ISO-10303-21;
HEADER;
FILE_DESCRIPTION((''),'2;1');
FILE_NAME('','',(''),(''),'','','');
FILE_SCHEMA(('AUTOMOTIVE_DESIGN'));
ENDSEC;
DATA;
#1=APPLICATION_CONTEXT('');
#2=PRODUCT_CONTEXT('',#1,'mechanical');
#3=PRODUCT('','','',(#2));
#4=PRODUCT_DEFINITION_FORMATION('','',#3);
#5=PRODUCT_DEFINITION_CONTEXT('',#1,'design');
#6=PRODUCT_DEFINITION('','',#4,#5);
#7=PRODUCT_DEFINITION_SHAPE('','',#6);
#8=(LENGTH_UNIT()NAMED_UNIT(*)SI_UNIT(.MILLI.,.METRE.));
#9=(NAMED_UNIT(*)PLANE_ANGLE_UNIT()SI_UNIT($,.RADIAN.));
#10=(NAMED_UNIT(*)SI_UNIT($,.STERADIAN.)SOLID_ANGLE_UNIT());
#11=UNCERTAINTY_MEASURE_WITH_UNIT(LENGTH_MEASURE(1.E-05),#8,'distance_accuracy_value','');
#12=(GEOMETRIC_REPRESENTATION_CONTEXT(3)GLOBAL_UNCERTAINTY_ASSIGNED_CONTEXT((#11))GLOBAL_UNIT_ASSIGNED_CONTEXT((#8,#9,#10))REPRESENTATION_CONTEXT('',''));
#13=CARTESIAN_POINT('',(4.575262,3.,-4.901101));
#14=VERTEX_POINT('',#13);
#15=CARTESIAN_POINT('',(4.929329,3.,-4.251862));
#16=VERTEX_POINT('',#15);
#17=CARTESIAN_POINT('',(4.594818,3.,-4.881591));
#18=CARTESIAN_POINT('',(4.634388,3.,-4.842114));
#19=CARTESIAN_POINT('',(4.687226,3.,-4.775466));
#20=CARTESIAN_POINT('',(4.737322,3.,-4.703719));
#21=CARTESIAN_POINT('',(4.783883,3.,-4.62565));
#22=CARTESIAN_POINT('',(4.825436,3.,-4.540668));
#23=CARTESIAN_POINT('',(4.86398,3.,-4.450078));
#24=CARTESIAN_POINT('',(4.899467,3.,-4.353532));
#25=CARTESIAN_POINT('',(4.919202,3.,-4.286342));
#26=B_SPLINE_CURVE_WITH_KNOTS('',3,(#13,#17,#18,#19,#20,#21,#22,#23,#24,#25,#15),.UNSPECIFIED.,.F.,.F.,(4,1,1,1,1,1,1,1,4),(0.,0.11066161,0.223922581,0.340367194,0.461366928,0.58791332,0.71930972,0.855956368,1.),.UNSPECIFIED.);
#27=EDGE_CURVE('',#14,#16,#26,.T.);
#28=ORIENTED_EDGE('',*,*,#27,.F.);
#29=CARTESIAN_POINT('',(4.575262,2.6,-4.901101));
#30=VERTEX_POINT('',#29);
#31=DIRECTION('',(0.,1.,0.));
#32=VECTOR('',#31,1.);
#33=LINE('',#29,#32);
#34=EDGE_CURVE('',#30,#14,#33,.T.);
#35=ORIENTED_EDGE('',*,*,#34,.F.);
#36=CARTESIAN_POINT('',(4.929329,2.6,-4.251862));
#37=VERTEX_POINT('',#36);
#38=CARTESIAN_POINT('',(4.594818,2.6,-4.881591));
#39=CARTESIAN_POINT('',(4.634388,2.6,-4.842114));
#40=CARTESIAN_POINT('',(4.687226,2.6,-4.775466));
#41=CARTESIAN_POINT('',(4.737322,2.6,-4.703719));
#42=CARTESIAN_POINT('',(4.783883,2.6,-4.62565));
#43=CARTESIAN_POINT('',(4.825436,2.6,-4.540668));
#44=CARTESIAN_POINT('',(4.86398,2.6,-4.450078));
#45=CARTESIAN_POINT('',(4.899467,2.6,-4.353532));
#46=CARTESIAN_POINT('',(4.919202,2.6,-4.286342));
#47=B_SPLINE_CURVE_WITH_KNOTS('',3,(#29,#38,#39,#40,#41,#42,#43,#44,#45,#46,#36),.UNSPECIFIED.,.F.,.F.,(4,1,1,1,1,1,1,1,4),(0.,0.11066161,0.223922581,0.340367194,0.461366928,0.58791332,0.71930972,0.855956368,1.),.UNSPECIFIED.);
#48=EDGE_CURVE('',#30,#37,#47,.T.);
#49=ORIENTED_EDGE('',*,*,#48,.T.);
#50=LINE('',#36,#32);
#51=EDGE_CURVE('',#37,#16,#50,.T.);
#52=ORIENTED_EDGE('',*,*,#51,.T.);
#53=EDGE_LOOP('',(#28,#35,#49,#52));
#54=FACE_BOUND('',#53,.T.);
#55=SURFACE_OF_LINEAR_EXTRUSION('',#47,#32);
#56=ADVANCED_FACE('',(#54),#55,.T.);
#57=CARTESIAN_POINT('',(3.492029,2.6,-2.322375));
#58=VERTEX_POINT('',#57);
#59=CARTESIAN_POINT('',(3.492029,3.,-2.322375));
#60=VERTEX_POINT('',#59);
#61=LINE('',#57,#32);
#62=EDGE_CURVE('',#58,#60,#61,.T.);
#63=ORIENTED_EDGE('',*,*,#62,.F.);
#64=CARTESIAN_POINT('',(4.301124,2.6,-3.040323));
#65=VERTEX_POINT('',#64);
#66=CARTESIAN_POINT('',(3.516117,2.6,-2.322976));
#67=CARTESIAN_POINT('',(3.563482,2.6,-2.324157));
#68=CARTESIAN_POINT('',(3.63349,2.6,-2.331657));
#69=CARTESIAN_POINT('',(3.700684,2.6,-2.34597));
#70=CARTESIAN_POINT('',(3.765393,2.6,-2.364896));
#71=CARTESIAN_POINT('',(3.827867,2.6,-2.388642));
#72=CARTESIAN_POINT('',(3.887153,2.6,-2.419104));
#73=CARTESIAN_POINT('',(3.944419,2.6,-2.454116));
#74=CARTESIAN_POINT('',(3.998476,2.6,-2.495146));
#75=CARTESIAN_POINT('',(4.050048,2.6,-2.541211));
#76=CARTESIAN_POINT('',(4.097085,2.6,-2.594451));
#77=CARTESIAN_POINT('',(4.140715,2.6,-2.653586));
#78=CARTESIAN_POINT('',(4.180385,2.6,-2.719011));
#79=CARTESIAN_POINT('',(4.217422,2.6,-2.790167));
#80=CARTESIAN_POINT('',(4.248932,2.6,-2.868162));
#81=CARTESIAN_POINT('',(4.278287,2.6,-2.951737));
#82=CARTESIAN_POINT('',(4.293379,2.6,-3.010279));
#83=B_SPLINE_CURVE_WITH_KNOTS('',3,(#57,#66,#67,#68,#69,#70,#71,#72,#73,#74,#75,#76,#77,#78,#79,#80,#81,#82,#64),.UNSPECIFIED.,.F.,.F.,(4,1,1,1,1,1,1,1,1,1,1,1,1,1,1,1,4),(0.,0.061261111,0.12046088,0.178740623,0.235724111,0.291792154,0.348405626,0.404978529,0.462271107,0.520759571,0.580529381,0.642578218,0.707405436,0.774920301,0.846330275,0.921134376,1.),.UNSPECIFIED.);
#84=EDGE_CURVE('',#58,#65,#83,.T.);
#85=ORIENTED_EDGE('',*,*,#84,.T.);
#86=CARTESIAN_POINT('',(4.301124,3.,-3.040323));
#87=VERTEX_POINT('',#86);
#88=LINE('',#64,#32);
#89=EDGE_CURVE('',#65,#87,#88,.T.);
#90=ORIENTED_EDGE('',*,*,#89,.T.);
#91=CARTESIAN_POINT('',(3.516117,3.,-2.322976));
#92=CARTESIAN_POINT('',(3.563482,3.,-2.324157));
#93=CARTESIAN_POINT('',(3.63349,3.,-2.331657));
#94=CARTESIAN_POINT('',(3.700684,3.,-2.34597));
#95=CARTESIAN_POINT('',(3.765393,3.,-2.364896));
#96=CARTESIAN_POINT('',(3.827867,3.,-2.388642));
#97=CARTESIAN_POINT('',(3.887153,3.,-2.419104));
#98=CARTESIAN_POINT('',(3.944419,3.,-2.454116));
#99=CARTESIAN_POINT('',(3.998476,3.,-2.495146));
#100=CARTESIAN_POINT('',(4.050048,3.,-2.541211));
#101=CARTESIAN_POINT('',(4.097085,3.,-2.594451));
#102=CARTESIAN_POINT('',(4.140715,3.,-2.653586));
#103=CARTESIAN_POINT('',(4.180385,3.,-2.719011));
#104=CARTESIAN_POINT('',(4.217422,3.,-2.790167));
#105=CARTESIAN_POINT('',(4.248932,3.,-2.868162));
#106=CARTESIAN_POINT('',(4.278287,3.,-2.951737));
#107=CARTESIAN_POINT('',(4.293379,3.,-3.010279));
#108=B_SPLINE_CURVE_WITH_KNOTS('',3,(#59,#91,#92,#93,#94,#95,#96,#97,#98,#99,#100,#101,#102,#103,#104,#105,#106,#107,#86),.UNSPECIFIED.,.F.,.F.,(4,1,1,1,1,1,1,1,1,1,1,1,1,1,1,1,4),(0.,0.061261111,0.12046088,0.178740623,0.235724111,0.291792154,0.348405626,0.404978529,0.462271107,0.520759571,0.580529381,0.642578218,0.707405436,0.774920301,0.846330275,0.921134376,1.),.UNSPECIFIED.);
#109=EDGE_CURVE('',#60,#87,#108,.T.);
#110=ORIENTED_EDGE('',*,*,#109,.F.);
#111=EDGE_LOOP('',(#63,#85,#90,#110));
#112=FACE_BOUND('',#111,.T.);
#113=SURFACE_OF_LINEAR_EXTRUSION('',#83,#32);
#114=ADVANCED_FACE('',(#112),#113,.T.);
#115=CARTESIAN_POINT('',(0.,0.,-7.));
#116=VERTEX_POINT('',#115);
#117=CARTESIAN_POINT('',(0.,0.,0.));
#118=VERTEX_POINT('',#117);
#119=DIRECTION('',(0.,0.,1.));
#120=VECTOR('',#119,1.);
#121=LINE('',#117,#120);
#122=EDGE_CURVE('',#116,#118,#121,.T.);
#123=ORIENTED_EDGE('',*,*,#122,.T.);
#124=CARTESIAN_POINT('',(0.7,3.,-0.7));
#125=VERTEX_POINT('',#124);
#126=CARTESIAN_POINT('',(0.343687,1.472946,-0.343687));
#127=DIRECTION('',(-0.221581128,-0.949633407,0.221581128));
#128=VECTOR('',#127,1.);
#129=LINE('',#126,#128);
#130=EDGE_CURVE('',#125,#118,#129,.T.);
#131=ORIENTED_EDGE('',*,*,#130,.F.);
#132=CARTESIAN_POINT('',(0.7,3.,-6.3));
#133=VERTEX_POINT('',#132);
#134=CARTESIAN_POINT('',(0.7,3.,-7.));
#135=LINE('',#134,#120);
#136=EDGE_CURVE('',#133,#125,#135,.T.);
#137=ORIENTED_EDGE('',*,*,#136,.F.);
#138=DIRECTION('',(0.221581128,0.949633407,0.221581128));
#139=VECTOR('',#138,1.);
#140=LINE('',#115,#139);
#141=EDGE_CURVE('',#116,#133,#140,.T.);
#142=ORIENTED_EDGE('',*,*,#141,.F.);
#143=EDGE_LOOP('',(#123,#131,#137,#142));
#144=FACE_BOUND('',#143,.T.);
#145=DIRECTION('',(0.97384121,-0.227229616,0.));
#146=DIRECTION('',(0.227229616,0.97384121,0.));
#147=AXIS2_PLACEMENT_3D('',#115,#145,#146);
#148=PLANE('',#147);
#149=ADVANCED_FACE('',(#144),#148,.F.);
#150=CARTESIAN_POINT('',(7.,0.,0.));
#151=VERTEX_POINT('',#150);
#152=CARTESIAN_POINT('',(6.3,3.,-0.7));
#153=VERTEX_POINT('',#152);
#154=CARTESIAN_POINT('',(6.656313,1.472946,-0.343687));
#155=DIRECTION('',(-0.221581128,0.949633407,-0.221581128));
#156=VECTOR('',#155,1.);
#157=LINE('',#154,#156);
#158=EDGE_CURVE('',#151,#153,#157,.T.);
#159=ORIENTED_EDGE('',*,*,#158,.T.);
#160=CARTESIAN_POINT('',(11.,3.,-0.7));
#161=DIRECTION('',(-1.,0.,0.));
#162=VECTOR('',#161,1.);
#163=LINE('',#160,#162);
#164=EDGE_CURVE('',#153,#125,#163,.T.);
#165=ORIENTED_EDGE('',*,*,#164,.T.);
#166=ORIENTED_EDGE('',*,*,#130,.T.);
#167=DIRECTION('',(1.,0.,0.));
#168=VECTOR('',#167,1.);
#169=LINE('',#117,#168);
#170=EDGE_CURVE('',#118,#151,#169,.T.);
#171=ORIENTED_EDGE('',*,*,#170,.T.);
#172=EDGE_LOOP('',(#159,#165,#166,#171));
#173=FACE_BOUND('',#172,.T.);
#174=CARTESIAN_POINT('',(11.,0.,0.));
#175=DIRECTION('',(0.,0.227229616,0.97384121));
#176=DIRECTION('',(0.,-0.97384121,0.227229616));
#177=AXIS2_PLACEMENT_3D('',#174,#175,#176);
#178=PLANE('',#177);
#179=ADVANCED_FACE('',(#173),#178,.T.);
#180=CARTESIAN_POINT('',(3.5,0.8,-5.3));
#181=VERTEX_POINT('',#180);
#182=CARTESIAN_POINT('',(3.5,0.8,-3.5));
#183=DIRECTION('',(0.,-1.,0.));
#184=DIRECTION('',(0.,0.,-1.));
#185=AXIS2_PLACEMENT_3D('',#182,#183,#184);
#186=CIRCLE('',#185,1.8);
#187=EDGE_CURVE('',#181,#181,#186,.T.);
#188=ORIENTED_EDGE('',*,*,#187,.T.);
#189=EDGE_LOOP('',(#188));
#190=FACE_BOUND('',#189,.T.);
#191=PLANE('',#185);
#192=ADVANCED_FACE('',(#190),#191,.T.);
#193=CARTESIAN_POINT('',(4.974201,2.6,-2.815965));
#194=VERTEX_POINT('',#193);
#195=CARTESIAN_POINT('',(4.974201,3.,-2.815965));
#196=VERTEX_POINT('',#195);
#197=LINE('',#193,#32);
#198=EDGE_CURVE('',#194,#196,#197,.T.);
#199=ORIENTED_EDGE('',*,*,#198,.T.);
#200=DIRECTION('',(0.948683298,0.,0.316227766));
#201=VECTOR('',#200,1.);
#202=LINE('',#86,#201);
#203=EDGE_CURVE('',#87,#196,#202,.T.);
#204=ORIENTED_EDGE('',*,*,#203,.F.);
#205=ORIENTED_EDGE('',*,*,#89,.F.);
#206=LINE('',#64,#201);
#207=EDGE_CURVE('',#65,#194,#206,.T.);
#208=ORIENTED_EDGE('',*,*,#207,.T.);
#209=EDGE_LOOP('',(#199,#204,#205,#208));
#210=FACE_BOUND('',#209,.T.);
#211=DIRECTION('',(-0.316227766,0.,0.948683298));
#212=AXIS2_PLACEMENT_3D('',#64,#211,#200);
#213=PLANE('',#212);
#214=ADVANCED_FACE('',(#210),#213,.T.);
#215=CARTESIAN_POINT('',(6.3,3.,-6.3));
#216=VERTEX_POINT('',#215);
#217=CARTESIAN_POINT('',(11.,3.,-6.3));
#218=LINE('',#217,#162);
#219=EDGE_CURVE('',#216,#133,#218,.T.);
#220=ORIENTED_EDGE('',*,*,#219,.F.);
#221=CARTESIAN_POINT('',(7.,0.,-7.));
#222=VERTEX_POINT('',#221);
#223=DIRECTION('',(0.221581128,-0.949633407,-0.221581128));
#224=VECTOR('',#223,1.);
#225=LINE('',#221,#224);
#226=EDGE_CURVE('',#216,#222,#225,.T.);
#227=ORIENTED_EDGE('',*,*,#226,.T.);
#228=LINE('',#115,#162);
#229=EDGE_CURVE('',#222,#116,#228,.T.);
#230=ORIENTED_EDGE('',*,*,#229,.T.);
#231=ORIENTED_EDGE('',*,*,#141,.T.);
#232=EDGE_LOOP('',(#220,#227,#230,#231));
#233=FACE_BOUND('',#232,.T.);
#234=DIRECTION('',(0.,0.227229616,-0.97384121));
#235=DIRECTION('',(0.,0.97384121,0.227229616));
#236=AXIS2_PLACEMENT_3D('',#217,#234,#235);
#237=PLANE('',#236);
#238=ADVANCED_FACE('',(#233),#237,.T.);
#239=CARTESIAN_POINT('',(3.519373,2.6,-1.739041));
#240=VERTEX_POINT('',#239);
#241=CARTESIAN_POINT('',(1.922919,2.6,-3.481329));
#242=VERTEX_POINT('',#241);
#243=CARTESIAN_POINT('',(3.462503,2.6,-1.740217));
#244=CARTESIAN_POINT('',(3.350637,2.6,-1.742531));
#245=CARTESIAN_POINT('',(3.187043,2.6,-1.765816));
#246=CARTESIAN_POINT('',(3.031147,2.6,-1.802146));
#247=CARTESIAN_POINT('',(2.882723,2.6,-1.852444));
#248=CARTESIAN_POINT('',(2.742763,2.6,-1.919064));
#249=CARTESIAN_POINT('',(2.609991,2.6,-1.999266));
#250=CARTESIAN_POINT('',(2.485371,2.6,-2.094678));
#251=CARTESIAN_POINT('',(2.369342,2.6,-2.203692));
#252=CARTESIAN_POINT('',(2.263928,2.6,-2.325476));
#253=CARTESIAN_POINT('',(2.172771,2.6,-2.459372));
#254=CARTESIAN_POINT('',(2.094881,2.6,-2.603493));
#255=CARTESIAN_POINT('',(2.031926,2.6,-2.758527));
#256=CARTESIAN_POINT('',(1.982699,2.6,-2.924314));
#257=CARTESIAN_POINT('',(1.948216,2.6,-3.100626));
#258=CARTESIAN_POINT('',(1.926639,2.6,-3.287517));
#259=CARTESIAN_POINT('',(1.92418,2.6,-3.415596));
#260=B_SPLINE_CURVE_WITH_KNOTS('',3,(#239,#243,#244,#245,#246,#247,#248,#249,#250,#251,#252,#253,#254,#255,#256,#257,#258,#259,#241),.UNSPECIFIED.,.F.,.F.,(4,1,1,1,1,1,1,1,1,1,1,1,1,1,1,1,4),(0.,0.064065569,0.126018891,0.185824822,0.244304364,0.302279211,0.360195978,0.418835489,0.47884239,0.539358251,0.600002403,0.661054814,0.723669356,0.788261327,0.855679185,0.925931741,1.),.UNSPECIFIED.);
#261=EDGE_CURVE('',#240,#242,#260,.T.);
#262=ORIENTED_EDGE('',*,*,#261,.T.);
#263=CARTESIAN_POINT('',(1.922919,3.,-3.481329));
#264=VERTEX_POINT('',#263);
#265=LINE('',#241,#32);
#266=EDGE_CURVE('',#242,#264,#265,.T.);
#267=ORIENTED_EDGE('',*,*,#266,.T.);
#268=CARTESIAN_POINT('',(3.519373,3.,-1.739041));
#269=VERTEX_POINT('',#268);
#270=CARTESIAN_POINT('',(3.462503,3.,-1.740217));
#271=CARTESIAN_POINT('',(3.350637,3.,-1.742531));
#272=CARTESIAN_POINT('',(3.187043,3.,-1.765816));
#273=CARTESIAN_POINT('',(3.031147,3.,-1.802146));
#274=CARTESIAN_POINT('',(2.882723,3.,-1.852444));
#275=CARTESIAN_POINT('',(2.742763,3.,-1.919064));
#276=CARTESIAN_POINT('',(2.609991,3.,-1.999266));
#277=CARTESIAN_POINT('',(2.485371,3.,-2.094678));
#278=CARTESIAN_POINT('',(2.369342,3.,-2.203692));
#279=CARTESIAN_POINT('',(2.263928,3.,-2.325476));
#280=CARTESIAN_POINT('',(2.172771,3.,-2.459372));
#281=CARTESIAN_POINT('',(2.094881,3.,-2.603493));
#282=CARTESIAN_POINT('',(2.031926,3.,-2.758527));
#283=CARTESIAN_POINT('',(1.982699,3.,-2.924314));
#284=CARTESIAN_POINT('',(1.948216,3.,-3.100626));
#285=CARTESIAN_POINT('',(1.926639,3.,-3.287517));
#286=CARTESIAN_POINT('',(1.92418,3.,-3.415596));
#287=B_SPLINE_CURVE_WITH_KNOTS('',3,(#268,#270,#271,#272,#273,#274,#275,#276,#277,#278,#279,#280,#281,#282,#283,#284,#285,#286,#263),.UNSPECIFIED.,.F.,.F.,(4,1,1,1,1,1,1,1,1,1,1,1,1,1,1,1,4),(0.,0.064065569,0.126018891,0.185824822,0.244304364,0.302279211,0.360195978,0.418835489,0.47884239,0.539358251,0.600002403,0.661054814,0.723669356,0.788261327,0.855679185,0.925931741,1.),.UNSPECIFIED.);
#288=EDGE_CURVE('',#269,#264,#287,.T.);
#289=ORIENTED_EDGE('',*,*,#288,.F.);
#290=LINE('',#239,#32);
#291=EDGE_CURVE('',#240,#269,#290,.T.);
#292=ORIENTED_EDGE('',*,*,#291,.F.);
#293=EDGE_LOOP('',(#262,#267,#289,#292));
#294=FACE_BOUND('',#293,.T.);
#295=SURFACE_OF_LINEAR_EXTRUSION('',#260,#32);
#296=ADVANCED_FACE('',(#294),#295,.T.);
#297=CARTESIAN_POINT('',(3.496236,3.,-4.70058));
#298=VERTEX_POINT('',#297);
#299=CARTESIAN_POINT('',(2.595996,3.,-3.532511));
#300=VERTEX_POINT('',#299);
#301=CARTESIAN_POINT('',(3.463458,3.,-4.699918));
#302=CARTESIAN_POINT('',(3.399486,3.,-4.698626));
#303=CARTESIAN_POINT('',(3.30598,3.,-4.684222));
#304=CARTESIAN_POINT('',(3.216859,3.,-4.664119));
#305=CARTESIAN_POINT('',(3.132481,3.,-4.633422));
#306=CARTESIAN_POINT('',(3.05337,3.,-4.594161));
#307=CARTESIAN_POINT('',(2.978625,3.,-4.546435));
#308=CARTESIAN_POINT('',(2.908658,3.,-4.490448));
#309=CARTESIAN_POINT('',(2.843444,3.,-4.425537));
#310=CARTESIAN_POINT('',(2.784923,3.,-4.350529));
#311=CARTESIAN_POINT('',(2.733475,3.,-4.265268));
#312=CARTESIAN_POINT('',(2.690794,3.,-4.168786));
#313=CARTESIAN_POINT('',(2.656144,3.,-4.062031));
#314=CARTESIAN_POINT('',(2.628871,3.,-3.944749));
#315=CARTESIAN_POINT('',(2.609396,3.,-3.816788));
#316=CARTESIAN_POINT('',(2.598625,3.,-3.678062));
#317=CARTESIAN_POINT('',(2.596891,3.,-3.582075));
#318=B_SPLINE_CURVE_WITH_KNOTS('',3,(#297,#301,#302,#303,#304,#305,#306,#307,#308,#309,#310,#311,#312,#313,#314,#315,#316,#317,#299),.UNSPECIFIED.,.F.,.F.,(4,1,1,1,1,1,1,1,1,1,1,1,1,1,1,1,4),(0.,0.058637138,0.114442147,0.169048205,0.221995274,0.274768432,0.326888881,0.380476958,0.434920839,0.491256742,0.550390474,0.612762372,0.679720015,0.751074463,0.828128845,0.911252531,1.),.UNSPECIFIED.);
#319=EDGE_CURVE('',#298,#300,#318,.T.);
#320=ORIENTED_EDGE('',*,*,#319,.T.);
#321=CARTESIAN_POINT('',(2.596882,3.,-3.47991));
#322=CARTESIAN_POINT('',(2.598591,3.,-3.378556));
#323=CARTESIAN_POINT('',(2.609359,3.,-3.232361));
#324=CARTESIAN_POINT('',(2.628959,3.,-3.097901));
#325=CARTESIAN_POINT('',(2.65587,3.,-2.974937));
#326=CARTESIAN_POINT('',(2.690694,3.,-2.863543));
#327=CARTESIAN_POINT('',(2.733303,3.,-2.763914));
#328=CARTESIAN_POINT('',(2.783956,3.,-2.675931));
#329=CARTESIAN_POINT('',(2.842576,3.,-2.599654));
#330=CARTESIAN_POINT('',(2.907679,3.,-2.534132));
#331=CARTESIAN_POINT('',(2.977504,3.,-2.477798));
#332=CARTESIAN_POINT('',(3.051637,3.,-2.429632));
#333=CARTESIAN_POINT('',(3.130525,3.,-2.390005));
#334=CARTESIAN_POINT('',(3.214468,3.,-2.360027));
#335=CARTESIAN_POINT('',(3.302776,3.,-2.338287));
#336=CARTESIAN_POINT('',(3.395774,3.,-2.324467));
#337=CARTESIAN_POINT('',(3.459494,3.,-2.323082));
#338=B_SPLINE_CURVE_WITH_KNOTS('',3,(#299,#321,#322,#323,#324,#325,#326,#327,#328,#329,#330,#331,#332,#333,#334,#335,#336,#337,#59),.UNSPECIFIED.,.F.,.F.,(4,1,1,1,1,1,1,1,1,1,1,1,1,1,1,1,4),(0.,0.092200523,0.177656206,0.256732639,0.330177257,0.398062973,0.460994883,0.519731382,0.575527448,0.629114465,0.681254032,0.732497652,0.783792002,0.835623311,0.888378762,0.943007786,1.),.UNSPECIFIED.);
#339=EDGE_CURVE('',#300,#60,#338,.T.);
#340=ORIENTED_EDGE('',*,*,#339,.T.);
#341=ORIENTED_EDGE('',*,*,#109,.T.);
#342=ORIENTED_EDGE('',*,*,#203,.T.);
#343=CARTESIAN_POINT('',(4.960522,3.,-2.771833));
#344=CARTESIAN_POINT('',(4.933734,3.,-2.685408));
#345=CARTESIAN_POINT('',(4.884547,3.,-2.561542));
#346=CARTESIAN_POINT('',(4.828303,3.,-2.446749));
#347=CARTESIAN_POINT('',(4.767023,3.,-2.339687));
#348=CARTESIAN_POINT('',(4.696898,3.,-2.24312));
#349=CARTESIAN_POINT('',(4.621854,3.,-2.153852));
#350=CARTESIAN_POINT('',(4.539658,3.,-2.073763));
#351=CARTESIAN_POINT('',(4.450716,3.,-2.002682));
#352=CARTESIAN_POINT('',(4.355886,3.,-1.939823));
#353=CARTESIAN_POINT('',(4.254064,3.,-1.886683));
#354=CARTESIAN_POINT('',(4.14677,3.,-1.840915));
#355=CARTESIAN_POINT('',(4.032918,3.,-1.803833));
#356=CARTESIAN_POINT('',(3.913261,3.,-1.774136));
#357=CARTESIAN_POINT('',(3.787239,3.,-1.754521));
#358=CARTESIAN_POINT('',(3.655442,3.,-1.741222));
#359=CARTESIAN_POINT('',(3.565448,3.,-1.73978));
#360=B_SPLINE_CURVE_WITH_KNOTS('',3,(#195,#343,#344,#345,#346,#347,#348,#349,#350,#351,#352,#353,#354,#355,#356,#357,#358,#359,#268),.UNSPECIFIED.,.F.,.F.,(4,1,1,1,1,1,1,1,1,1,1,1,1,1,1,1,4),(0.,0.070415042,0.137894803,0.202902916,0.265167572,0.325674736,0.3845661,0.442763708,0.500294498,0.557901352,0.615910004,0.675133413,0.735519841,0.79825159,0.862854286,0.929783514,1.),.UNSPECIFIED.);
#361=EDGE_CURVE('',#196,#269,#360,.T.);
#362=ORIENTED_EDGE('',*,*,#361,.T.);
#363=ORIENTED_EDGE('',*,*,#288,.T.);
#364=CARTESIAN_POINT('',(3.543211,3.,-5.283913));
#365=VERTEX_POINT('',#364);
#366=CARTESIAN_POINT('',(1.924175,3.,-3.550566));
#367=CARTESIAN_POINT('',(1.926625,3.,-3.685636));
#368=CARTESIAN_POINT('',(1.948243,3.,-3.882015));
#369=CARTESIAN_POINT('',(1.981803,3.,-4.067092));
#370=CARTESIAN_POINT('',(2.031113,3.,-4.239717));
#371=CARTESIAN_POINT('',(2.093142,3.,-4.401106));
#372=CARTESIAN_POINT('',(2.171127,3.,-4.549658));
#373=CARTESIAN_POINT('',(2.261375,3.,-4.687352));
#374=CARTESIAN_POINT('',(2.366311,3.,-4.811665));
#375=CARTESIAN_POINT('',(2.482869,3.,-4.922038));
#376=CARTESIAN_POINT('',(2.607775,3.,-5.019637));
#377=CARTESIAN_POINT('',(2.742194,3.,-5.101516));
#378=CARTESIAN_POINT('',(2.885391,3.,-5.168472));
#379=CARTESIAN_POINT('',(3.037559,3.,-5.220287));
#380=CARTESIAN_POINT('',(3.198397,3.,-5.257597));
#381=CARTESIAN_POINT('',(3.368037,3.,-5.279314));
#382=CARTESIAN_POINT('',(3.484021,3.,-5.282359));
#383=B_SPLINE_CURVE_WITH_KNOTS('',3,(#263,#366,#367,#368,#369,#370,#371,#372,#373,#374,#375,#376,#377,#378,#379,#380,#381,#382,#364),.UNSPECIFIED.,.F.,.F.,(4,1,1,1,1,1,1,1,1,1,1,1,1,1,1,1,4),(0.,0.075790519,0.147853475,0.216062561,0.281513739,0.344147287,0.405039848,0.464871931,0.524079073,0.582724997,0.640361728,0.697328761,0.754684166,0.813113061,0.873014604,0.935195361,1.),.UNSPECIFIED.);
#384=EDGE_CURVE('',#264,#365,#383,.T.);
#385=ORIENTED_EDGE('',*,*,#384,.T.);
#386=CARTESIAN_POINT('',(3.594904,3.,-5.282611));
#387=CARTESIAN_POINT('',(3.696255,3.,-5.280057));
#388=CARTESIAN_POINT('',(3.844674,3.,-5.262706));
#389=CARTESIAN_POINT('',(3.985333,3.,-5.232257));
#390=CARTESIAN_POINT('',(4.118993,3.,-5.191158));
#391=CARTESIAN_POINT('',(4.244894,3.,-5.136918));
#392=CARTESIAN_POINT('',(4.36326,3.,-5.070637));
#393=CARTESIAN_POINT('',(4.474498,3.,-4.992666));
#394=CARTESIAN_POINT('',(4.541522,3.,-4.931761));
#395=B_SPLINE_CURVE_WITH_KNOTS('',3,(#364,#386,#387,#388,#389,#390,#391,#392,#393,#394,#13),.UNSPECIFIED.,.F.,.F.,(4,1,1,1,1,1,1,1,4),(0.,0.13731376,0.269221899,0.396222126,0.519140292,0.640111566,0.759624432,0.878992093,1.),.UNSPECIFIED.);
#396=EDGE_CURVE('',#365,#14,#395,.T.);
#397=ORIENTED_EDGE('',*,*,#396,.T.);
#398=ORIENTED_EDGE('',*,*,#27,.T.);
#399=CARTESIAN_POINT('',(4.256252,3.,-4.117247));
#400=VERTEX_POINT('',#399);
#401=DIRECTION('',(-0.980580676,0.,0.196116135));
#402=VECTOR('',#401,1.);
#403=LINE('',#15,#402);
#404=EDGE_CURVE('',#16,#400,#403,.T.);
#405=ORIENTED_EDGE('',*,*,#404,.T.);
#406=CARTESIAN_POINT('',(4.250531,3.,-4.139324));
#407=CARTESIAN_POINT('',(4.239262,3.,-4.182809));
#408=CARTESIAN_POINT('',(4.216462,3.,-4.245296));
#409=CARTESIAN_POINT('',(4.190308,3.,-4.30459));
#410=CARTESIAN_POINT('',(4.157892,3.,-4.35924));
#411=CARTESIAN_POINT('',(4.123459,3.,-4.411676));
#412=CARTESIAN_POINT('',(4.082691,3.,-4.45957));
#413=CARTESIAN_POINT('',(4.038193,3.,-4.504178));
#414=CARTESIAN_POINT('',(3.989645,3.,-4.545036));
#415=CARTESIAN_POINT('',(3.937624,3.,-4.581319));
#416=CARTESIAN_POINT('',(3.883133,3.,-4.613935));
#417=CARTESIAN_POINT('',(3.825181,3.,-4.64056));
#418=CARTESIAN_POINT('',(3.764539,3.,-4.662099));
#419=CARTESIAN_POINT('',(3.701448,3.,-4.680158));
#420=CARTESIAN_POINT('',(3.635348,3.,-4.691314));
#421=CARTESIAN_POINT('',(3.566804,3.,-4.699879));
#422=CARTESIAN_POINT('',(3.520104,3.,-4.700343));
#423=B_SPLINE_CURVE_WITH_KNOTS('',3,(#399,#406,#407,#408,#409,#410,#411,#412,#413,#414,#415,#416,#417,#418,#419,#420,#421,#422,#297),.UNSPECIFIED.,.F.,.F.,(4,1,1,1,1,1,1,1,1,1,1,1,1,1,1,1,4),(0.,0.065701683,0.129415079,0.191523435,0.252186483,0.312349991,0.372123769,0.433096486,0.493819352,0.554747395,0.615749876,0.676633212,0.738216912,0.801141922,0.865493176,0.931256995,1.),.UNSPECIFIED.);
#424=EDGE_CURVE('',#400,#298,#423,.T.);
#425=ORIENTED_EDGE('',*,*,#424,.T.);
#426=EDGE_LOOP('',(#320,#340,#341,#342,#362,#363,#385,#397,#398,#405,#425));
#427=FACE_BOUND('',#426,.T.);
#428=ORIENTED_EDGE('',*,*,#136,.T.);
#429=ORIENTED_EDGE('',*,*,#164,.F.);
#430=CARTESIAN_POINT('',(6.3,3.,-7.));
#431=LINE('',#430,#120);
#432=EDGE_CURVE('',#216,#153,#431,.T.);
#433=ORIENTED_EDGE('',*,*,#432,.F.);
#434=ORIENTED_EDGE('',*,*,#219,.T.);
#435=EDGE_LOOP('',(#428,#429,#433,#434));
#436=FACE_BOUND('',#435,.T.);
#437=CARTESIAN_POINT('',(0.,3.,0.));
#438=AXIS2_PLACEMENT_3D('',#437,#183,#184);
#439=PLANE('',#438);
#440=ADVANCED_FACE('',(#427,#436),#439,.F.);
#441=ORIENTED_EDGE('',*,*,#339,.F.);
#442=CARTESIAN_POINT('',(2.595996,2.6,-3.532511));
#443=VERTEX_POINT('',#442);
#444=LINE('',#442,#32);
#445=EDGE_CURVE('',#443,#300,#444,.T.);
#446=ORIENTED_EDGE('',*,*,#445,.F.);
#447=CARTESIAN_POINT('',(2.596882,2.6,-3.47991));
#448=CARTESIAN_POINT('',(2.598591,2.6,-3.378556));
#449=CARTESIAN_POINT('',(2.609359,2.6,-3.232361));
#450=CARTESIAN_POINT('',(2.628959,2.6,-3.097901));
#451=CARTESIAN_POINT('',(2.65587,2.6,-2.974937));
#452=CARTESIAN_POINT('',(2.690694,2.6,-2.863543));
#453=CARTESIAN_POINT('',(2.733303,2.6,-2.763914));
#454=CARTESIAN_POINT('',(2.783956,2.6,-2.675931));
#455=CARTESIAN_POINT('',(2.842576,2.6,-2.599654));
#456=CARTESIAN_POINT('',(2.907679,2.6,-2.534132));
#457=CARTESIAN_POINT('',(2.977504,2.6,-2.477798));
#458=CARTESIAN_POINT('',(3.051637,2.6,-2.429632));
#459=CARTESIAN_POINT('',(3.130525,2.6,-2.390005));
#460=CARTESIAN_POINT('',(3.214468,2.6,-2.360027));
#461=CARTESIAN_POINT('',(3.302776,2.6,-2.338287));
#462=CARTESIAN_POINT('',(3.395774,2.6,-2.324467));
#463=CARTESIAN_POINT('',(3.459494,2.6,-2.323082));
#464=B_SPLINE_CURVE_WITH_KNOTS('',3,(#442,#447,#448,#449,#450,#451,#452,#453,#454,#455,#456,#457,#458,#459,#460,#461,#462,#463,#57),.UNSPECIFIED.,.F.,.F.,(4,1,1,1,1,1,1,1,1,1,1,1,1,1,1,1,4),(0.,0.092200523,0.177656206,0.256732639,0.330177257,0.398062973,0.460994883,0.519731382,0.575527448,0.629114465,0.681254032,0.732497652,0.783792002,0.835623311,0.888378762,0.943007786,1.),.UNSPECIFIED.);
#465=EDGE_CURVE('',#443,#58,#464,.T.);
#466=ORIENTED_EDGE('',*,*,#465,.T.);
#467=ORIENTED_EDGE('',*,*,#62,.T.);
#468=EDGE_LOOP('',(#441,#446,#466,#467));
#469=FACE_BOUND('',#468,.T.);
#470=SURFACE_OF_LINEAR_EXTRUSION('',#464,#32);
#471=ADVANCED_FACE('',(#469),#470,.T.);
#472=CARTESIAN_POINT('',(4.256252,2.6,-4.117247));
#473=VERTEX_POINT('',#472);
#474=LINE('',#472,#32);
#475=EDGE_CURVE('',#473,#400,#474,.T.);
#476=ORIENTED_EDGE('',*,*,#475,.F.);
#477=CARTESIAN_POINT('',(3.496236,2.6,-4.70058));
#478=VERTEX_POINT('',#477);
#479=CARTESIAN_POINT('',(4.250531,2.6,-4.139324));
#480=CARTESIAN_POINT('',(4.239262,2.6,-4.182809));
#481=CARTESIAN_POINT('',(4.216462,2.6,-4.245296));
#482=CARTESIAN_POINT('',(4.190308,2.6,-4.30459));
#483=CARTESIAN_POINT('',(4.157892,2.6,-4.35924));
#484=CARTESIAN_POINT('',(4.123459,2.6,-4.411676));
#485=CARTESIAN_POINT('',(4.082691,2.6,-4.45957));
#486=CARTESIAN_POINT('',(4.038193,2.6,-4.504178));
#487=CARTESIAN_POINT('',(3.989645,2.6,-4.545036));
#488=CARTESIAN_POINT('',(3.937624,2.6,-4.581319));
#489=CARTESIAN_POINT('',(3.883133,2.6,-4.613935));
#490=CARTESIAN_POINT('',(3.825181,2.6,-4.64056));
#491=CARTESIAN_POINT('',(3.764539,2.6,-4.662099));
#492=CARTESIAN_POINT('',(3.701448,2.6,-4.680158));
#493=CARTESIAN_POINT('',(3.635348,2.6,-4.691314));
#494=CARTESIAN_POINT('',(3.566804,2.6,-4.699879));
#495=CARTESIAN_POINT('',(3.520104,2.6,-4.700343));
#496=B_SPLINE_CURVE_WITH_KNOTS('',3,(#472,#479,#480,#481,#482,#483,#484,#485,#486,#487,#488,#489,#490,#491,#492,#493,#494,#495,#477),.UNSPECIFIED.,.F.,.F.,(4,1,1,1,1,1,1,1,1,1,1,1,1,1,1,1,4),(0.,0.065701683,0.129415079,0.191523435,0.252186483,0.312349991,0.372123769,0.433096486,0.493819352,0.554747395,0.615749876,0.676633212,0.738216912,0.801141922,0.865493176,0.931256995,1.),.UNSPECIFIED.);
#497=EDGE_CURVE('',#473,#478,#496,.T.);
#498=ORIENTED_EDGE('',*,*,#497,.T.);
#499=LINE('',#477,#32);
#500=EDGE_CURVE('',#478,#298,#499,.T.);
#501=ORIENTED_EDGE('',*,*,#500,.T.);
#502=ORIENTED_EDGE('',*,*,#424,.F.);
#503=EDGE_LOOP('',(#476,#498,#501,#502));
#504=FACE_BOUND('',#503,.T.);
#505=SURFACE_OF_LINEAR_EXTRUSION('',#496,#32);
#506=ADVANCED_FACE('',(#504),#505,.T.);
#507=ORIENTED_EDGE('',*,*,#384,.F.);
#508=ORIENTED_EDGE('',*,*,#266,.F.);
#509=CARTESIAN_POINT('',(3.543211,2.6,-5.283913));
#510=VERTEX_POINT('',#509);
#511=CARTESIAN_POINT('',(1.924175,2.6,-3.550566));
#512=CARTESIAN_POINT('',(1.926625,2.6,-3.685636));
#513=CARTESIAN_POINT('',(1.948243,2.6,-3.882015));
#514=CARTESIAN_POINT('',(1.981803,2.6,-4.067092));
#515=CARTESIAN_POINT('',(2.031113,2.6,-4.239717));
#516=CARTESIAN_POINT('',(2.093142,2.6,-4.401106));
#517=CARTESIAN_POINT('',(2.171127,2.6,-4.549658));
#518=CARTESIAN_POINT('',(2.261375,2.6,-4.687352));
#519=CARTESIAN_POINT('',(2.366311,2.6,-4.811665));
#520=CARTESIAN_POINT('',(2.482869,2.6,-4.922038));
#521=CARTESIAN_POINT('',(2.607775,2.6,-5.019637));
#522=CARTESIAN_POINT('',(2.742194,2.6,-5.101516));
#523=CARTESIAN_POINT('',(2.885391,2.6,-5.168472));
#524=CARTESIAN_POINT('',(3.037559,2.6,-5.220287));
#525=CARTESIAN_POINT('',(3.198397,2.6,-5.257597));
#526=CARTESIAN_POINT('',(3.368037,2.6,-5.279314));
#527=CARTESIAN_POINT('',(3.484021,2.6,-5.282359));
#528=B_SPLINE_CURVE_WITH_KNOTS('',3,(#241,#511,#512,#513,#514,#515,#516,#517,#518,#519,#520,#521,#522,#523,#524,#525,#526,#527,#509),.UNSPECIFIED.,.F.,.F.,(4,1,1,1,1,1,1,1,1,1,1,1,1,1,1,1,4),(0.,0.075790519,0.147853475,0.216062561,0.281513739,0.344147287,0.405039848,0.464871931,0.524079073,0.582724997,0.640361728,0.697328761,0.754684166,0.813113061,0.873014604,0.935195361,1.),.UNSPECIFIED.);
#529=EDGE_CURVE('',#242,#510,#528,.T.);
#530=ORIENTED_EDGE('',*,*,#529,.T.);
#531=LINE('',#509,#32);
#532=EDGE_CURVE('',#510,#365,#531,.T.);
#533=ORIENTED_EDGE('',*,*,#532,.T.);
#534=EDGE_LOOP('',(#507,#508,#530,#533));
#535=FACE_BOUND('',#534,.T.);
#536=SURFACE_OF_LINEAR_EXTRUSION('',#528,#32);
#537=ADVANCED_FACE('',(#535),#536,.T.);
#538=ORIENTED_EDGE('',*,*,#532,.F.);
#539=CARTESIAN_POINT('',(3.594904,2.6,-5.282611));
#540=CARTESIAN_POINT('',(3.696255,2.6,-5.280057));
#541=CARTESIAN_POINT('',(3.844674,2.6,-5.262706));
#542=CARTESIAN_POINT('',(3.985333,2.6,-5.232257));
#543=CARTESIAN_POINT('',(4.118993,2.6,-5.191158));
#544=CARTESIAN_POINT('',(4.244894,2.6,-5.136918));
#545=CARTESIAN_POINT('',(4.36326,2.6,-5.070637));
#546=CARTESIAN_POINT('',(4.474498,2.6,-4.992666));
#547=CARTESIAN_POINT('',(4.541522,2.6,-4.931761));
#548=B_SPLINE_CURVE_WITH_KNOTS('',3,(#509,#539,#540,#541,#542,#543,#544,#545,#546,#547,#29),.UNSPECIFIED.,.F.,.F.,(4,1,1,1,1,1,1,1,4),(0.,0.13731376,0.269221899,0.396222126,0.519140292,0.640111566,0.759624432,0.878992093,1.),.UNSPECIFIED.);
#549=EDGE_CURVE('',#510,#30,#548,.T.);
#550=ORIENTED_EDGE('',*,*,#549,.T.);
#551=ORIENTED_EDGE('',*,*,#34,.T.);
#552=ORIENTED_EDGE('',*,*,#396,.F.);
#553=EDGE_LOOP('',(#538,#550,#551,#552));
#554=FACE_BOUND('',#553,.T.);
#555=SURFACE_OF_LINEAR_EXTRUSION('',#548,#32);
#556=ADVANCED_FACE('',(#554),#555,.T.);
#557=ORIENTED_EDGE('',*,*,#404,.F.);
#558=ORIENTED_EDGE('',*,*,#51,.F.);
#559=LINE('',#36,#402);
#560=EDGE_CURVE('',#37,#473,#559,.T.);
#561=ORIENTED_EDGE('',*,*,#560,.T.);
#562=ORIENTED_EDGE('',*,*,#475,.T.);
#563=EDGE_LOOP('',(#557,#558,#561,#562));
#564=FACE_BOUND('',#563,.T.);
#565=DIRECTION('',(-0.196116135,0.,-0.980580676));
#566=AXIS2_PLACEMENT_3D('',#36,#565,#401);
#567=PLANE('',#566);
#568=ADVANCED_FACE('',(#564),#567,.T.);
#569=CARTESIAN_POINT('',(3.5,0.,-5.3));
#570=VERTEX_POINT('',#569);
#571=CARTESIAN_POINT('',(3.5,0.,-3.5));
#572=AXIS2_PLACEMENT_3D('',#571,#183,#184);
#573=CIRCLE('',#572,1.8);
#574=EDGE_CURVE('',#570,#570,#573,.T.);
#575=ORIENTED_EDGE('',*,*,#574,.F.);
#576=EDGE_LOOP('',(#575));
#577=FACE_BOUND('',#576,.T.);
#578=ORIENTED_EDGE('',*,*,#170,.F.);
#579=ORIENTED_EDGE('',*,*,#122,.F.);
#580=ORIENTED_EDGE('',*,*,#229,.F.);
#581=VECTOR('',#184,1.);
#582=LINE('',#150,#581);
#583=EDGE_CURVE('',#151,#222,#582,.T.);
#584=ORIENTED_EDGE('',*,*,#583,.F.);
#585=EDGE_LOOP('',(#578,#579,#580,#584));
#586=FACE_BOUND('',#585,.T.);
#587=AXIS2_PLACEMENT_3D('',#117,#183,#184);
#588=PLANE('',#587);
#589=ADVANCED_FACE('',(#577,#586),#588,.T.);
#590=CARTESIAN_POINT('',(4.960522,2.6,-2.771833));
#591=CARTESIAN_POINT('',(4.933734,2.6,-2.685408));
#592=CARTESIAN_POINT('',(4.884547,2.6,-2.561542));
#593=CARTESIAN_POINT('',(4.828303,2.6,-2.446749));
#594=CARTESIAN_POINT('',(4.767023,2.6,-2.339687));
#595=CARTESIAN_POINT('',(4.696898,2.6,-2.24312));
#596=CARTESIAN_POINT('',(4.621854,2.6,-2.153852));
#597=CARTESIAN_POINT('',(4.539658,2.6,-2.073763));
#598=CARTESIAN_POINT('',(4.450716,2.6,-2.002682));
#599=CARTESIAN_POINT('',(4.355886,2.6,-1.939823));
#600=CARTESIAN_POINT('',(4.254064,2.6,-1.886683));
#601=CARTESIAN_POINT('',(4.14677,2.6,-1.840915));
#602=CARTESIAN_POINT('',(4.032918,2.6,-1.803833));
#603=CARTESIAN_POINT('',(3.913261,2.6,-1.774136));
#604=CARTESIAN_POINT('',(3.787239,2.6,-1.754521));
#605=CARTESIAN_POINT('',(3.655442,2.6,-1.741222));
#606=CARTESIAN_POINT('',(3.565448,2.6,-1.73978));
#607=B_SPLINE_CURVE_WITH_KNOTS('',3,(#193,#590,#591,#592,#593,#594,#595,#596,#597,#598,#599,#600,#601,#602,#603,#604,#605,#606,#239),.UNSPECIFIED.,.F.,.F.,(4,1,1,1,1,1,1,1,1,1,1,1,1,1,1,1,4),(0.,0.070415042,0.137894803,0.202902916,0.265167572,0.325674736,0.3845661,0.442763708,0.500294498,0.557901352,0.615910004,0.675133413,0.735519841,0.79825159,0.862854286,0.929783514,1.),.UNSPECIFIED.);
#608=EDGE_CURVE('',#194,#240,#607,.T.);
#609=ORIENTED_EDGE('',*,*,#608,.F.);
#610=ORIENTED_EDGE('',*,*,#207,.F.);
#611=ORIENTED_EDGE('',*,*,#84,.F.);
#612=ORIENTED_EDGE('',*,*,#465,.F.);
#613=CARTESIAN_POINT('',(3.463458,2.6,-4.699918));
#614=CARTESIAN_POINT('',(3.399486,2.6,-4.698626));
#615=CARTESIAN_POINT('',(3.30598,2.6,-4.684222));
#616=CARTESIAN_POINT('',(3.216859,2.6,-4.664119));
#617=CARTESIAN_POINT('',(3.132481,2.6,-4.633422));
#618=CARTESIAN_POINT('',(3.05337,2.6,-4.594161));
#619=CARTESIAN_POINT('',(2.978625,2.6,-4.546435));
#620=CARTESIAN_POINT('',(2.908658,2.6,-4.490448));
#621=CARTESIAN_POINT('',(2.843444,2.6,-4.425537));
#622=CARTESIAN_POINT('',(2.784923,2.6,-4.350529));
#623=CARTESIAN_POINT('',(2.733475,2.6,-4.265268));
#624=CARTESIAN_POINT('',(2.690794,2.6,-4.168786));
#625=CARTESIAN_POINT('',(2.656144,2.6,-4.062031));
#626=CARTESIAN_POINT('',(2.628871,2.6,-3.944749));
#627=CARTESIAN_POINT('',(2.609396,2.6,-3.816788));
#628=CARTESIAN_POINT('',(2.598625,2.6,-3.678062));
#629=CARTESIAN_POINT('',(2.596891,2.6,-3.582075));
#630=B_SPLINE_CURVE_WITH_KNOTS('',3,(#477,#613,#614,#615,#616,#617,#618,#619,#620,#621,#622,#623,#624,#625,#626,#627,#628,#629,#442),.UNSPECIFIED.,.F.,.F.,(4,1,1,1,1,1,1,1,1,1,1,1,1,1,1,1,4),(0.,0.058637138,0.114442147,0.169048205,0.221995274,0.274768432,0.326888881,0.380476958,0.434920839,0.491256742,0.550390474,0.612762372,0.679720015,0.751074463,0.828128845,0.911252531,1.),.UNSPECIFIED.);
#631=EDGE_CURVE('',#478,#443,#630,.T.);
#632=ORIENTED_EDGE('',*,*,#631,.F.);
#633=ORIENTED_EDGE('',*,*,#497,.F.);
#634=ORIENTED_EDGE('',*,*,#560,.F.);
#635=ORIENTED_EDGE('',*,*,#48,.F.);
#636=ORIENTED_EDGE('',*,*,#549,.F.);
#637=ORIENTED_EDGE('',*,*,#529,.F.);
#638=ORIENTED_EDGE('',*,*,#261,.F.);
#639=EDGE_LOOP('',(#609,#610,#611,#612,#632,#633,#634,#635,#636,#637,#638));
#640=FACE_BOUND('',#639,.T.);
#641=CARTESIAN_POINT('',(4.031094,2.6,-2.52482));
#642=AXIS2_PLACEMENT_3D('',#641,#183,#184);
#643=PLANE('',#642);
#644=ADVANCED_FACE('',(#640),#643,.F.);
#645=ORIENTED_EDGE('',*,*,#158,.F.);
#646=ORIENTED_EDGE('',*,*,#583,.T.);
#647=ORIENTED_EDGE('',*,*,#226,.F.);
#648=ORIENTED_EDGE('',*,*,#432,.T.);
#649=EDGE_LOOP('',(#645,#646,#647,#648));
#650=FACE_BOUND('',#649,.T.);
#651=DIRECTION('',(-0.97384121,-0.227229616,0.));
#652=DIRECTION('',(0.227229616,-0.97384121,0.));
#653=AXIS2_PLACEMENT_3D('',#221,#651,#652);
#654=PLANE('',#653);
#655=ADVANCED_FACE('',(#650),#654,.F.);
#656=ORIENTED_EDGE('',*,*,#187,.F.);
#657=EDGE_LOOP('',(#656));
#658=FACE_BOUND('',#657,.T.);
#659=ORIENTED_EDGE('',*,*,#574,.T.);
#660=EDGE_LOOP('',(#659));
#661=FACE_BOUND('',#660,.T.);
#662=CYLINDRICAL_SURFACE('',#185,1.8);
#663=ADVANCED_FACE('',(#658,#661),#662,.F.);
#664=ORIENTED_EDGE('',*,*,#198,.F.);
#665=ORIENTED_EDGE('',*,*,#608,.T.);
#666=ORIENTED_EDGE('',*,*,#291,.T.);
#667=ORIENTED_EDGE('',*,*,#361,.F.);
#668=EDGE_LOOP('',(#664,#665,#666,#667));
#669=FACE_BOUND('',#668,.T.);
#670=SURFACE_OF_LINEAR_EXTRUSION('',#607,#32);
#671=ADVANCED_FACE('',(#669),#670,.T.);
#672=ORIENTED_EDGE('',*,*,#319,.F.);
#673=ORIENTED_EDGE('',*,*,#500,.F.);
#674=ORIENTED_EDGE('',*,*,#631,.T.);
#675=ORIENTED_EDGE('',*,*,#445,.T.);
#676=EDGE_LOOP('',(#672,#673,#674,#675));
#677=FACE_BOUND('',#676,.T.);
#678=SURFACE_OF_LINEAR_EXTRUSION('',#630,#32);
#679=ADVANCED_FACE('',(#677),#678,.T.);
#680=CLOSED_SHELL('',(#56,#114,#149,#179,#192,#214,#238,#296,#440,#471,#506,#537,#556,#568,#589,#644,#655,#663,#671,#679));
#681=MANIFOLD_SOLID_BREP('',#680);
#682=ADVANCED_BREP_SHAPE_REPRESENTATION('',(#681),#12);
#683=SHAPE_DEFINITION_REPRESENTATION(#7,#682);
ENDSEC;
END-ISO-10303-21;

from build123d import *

# Parameters (mm, degrees)
SKETCH1_W           = 7
SKETCH1_H           = 7
BOSS_EXTRUDE1_DEPTH = 3
CUT_EXTRUDE1_DEPTH  = 7
CUT_EXTRUDE2_DEPTH  = 11
SKETCH4_R           = 1.8
CUT_EXTRUDE3_DEPTH  = 0.8
CUT_EXTRUDE4_DEPTH  = 0.4


with BuildPart() as part:
    # Sketch1 → Boss-Extrude1 (new body)
    with BuildSketch(Plane(origin=(0, 0, 0), x_dir=(1, 0, 0), z_dir=(0, 1, 0))):
        with Locations((3.5, 3.5)):
            Rectangle(SKETCH1_W, SKETCH1_H)
    extrude(amount=BOSS_EXTRUDE1_DEPTH)

    # Sketch2 → Cut-Extrude1 (cut)
    with BuildSketch(Plane.XY):
        Polygon((0, 0), (0.7, 3), (0, 3), align=None)
        Polygon((7, 0), (6.3, 3), (7, 3), align=None)
    extrude(amount=-CUT_EXTRUDE1_DEPTH, mode=Mode.SUBTRACT)

    # Sketch3 → Cut-Extrude2 (cut)
    with BuildSketch(Plane(origin=(0, 0, 0), x_dir=(0, 0, -1), z_dir=(1, 0, 0))):
        Polygon((0, 0), (0.7, 3), (0, 3), align=None)
        Polygon((7, 3), (6.3, 3), (7, 0), align=None)
    extrude(amount=CUT_EXTRUDE2_DEPTH, mode=Mode.SUBTRACT)

    # Sketch4 → Cut-Extrude3 (cut)
    with BuildSketch(Plane.XZ):
        with Locations(Location((3.5, -3.5, 0), (0, 0, 270))):
            Circle(SKETCH4_R)
    extrude(amount=-CUT_EXTRUDE3_DEPTH, mode=Mode.SUBTRACT)

    # Sketch5 → Cut-Extrude4 (cut)
    with BuildSketch(Plane(origin=(0, 3, 0), x_dir=(1, 0, 0), z_dir=(0, 1, 0))):
        with BuildLine():
            Line((4.301123745, 3.0403235), (4.974200669, 2.815964526))
            add(Edge.make_bspline(
                [(4.974200669, 2.815964526), (4.960521674, 2.771832567), (4.933733899, 2.68540831), (4.884547054, 2.561541828), (4.828302659, 2.446749112), (4.767023387, 2.33968659), (4.696898403, 2.243120033), (4.621853673, 2.15385218), (4.53965782, 2.073763183), (4.45071642, 2.002682023), (4.355885584, 1.939823406), (4.25406375, 1.886683329), (4.146770466, 1.840915158), (4.032917717, 1.803833291), (3.913261107, 1.774136343), (3.787239198, 1.754521348), (3.655441508, 1.741221733), (3.565448152, 1.739779731), (3.519372944, 1.739041449)],
                knots=[0, 0, 0, 0, 1.126640671, 2.206316847, 3.246446654, 4.24268115, 5.210795778, 6.153057602, 7.084219323, 8.004711971, 8.926421631, 9.854560063, 10.802134612, 11.768317461, 12.772025444, 13.805668576, 14.876536225, 16, 16, 16, 16], degree=3))
            add(Edge.make_bspline(
                [(3.519372944, 1.739041449), (3.462502515, 1.740217406), (3.350636682, 1.742530549), (3.187043495, 1.765815525), (3.031146586, 1.80214564), (2.882722932, 1.852444053), (2.742763243, 1.919064174), (2.609990608, 1.999266162), (2.485371298, 2.094678249), (2.3693425, 2.203692372), (2.263927531, 2.325476328), (2.172770854, 2.459372031), (2.094880625, 2.603493215), (2.031925726, 2.758527068), (1.982699244, 2.924314395), (1.948215991, 3.100625971), (1.926638564, 3.287517332), (1.924180264, 3.415596421), (1.922918617, 3.481329109)],
                knots=[0, 0, 0, 0, 1.025049111, 2.016302254, 2.973197159, 3.90886983, 4.83646737, 5.763135642, 6.70136783, 7.661478232, 8.629732022, 9.600038443, 10.576877021, 11.5787097, 12.612181225, 13.690866959, 14.814907849, 16, 16, 16, 16], degree=3))
            add(Edge.make_bspline(
                [(1.922918617, 3.481329109), (1.924174578, 3.550566485), (1.926624727, 3.685635974), (1.948242577, 3.882015446), (1.981803001, 4.067091651), (2.031112683, 4.239717041), (2.09314245, 4.401106495), (2.171127245, 4.549657913), (2.261374638, 4.687351889), (2.366311182, 4.811664664), (2.482868768, 4.922037599), (2.607774637, 5.019637111), (2.74219405, 5.101516105), (2.885391432, 5.168472462), (3.037558838, 5.220286586), (3.198396842, 5.257596822), (3.368037039, 5.279313779), (3.484020884, 5.282359114), (3.543211085, 5.283913244)],
                knots=[0, 0, 0, 0, 1.212648312, 2.365655595, 3.457000981, 4.504219827, 5.506356588, 6.480637568, 7.437950897, 8.385265166, 9.323599949, 10.245787653, 11.157260172, 12.074946661, 13.00980897, 13.968233668, 14.963125779, 16, 16, 16, 16], degree=3))
            add(Edge.make_bspline(
                [(3.543211085, 5.283913244), (3.594904175, 5.282610712), (3.696255358, 5.280056925), (3.844673873, 5.262706402), (3.98533309, 5.232257393), (4.118993318, 5.191158002), (4.244893689, 5.136917739), (4.363259754, 5.070636697), (4.474498364, 4.992665569), (4.541521917, 4.931760883), (4.575262367, 4.901100744)],
                knots=[0, 0, 0, 0, 1.098510076, 2.153775193, 3.169777012, 4.153122333, 5.120892526, 6.076995459, 7.031936742, 8, 8, 8, 8], degree=3))
            add(Edge.make_bspline(
                [(4.575262367, 4.901100744), (4.594817889, 4.881591385), (4.634388278, 4.842114408), (4.687225854, 4.775466084), (4.73732244, 4.703719152), (4.783882904, 4.625649701), (4.825435673, 4.54066776), (4.863980304, 4.45007838), (4.8994669, 4.353532371), (4.919201528, 4.286342314), (4.929328874, 4.251861961)],
                knots=[0, 0, 0, 0, 0.885292881, 1.791380647, 2.722937556, 3.69093542, 4.703306561, 5.754477758, 6.847650944, 8, 8, 8, 8], degree=3))
            Line((4.929328874, 4.251861961), (4.256251951, 4.117246577))
            add(Edge.make_bspline(
                [(4.256251951, 4.117246577), (4.250531073, 4.139323539), (4.239262446, 4.182809362), (4.216461913, 4.245296102), (4.190307903, 4.304590437), (4.157892404, 4.359240043), (4.123458761, 4.411676126), (4.082691271, 4.459570361), (4.038193489, 4.504177952), (3.98964486, 4.545035979), (3.937624153, 4.581318844), (3.883132951, 4.61393488), (3.825180855, 4.640559757), (3.76453877, 4.66209922), (3.701448228, 4.680158437), (3.63534753, 4.691314457), (3.566804403, 4.699878675), (3.520103543, 4.700342739), (3.496235925, 4.70057991)],
                knots=[0, 0, 0, 0, 1.051226935, 2.070641259, 3.064374968, 4.034983734, 4.997599858, 5.953980297, 6.92954377, 7.901109626, 8.875958313, 9.851998019, 10.826131395, 11.811470594, 12.818270757, 13.847890818, 14.900111925, 16, 16, 16, 16], degree=3))
            add(Edge.make_bspline(
                [(3.496235925, 4.70057991), (3.463458178, 4.699917949), (3.399485824, 4.698625999), (3.305980427, 4.684221631), (3.216859157, 4.664118846), (3.132481433, 4.633421996), (3.053369786, 4.594160979), (2.978625107, 4.546434822), (2.908657635, 4.490447949), (2.843443721, 4.425537099), (2.784923098, 4.350528652), (2.733475117, 4.265267743), (2.690794404, 4.168786384), (2.656144454, 4.062031362), (2.628870995, 3.944748811), (2.609395598, 3.81678831), (2.598625118, 3.678062323), (2.596890981, 3.582075039), (2.59599554, 3.532511)],
                knots=[0, 0, 0, 0, 0.938194206, 1.831074359, 2.704771284, 3.551924377, 4.396294915, 5.230222094, 6.087631332, 6.958733431, 7.860107878, 8.806247581, 9.804197948, 10.875520245, 12.017191412, 13.250061517, 14.580040491, 16, 16, 16, 16], degree=3))
            add(Edge.make_bspline(
                [(2.59599554, 3.532511), (2.596882163, 3.479909852), (2.598590549, 3.378555543), (2.609358744, 3.232361327), (2.628958677, 3.097901323), (2.655869672, 2.974936912), (2.690694237, 2.863543412), (2.733302771, 2.763913587), (2.783956188, 2.675930758), (2.84257568, 2.599653514), (2.907679246, 2.534131595), (2.977503606, 2.477797664), (3.05163681, 2.429632374), (3.130524959, 2.39000508), (3.2144681, 2.360027472), (3.302776345, 2.338287186), (3.395773712, 2.32446654), (3.459494346, 2.323081807), (3.492029194, 2.322374782)],
                knots=[0, 0, 0, 0, 1.475208372, 2.842499301, 4.107722225, 5.282836115, 6.369007568, 7.375918121, 8.315702116, 9.208439171, 10.065831443, 10.90006451, 11.71996243, 12.54067204, 13.369972975, 14.214060185, 15.088124569, 16, 16, 16, 16], degree=3))
            add(Edge.make_bspline(
                [(3.492029194, 2.322374782), (3.516116809, 2.32297573), (3.563481527, 2.324157405), (3.633490233, 2.331657405), (3.700684312, 2.345970073), (3.765392659, 2.364895987), (3.827866687, 2.388642426), (3.887153461, 2.419104331), (3.944419425, 2.454115768), (3.998476353, 2.495146489), (4.050048096, 2.541211307), (4.097084586, 2.594450756), (4.140714836, 2.653585613), (4.180385329, 2.719011076), (4.217421584, 2.790167129), (4.248932218, 2.868162419), (4.278287198, 2.951736508), (4.293378607, 3.010278741), (4.301123745, 3.0403235)],
                knots=[0, 0, 0, 0, 0.980177776, 1.927374078, 2.859849964, 3.771585772, 4.668674471, 5.574490016, 6.479656464, 7.396337719, 8.332153134, 9.288470092, 10.28125149, 11.318486971, 12.398724812, 13.541284404, 14.738150009, 16, 16, 16, 16], degree=3))
        make_face()
    extrude(amount=-CUT_EXTRUDE4_DEPTH, mode=Mode.SUBTRACT)


solid = part.part
